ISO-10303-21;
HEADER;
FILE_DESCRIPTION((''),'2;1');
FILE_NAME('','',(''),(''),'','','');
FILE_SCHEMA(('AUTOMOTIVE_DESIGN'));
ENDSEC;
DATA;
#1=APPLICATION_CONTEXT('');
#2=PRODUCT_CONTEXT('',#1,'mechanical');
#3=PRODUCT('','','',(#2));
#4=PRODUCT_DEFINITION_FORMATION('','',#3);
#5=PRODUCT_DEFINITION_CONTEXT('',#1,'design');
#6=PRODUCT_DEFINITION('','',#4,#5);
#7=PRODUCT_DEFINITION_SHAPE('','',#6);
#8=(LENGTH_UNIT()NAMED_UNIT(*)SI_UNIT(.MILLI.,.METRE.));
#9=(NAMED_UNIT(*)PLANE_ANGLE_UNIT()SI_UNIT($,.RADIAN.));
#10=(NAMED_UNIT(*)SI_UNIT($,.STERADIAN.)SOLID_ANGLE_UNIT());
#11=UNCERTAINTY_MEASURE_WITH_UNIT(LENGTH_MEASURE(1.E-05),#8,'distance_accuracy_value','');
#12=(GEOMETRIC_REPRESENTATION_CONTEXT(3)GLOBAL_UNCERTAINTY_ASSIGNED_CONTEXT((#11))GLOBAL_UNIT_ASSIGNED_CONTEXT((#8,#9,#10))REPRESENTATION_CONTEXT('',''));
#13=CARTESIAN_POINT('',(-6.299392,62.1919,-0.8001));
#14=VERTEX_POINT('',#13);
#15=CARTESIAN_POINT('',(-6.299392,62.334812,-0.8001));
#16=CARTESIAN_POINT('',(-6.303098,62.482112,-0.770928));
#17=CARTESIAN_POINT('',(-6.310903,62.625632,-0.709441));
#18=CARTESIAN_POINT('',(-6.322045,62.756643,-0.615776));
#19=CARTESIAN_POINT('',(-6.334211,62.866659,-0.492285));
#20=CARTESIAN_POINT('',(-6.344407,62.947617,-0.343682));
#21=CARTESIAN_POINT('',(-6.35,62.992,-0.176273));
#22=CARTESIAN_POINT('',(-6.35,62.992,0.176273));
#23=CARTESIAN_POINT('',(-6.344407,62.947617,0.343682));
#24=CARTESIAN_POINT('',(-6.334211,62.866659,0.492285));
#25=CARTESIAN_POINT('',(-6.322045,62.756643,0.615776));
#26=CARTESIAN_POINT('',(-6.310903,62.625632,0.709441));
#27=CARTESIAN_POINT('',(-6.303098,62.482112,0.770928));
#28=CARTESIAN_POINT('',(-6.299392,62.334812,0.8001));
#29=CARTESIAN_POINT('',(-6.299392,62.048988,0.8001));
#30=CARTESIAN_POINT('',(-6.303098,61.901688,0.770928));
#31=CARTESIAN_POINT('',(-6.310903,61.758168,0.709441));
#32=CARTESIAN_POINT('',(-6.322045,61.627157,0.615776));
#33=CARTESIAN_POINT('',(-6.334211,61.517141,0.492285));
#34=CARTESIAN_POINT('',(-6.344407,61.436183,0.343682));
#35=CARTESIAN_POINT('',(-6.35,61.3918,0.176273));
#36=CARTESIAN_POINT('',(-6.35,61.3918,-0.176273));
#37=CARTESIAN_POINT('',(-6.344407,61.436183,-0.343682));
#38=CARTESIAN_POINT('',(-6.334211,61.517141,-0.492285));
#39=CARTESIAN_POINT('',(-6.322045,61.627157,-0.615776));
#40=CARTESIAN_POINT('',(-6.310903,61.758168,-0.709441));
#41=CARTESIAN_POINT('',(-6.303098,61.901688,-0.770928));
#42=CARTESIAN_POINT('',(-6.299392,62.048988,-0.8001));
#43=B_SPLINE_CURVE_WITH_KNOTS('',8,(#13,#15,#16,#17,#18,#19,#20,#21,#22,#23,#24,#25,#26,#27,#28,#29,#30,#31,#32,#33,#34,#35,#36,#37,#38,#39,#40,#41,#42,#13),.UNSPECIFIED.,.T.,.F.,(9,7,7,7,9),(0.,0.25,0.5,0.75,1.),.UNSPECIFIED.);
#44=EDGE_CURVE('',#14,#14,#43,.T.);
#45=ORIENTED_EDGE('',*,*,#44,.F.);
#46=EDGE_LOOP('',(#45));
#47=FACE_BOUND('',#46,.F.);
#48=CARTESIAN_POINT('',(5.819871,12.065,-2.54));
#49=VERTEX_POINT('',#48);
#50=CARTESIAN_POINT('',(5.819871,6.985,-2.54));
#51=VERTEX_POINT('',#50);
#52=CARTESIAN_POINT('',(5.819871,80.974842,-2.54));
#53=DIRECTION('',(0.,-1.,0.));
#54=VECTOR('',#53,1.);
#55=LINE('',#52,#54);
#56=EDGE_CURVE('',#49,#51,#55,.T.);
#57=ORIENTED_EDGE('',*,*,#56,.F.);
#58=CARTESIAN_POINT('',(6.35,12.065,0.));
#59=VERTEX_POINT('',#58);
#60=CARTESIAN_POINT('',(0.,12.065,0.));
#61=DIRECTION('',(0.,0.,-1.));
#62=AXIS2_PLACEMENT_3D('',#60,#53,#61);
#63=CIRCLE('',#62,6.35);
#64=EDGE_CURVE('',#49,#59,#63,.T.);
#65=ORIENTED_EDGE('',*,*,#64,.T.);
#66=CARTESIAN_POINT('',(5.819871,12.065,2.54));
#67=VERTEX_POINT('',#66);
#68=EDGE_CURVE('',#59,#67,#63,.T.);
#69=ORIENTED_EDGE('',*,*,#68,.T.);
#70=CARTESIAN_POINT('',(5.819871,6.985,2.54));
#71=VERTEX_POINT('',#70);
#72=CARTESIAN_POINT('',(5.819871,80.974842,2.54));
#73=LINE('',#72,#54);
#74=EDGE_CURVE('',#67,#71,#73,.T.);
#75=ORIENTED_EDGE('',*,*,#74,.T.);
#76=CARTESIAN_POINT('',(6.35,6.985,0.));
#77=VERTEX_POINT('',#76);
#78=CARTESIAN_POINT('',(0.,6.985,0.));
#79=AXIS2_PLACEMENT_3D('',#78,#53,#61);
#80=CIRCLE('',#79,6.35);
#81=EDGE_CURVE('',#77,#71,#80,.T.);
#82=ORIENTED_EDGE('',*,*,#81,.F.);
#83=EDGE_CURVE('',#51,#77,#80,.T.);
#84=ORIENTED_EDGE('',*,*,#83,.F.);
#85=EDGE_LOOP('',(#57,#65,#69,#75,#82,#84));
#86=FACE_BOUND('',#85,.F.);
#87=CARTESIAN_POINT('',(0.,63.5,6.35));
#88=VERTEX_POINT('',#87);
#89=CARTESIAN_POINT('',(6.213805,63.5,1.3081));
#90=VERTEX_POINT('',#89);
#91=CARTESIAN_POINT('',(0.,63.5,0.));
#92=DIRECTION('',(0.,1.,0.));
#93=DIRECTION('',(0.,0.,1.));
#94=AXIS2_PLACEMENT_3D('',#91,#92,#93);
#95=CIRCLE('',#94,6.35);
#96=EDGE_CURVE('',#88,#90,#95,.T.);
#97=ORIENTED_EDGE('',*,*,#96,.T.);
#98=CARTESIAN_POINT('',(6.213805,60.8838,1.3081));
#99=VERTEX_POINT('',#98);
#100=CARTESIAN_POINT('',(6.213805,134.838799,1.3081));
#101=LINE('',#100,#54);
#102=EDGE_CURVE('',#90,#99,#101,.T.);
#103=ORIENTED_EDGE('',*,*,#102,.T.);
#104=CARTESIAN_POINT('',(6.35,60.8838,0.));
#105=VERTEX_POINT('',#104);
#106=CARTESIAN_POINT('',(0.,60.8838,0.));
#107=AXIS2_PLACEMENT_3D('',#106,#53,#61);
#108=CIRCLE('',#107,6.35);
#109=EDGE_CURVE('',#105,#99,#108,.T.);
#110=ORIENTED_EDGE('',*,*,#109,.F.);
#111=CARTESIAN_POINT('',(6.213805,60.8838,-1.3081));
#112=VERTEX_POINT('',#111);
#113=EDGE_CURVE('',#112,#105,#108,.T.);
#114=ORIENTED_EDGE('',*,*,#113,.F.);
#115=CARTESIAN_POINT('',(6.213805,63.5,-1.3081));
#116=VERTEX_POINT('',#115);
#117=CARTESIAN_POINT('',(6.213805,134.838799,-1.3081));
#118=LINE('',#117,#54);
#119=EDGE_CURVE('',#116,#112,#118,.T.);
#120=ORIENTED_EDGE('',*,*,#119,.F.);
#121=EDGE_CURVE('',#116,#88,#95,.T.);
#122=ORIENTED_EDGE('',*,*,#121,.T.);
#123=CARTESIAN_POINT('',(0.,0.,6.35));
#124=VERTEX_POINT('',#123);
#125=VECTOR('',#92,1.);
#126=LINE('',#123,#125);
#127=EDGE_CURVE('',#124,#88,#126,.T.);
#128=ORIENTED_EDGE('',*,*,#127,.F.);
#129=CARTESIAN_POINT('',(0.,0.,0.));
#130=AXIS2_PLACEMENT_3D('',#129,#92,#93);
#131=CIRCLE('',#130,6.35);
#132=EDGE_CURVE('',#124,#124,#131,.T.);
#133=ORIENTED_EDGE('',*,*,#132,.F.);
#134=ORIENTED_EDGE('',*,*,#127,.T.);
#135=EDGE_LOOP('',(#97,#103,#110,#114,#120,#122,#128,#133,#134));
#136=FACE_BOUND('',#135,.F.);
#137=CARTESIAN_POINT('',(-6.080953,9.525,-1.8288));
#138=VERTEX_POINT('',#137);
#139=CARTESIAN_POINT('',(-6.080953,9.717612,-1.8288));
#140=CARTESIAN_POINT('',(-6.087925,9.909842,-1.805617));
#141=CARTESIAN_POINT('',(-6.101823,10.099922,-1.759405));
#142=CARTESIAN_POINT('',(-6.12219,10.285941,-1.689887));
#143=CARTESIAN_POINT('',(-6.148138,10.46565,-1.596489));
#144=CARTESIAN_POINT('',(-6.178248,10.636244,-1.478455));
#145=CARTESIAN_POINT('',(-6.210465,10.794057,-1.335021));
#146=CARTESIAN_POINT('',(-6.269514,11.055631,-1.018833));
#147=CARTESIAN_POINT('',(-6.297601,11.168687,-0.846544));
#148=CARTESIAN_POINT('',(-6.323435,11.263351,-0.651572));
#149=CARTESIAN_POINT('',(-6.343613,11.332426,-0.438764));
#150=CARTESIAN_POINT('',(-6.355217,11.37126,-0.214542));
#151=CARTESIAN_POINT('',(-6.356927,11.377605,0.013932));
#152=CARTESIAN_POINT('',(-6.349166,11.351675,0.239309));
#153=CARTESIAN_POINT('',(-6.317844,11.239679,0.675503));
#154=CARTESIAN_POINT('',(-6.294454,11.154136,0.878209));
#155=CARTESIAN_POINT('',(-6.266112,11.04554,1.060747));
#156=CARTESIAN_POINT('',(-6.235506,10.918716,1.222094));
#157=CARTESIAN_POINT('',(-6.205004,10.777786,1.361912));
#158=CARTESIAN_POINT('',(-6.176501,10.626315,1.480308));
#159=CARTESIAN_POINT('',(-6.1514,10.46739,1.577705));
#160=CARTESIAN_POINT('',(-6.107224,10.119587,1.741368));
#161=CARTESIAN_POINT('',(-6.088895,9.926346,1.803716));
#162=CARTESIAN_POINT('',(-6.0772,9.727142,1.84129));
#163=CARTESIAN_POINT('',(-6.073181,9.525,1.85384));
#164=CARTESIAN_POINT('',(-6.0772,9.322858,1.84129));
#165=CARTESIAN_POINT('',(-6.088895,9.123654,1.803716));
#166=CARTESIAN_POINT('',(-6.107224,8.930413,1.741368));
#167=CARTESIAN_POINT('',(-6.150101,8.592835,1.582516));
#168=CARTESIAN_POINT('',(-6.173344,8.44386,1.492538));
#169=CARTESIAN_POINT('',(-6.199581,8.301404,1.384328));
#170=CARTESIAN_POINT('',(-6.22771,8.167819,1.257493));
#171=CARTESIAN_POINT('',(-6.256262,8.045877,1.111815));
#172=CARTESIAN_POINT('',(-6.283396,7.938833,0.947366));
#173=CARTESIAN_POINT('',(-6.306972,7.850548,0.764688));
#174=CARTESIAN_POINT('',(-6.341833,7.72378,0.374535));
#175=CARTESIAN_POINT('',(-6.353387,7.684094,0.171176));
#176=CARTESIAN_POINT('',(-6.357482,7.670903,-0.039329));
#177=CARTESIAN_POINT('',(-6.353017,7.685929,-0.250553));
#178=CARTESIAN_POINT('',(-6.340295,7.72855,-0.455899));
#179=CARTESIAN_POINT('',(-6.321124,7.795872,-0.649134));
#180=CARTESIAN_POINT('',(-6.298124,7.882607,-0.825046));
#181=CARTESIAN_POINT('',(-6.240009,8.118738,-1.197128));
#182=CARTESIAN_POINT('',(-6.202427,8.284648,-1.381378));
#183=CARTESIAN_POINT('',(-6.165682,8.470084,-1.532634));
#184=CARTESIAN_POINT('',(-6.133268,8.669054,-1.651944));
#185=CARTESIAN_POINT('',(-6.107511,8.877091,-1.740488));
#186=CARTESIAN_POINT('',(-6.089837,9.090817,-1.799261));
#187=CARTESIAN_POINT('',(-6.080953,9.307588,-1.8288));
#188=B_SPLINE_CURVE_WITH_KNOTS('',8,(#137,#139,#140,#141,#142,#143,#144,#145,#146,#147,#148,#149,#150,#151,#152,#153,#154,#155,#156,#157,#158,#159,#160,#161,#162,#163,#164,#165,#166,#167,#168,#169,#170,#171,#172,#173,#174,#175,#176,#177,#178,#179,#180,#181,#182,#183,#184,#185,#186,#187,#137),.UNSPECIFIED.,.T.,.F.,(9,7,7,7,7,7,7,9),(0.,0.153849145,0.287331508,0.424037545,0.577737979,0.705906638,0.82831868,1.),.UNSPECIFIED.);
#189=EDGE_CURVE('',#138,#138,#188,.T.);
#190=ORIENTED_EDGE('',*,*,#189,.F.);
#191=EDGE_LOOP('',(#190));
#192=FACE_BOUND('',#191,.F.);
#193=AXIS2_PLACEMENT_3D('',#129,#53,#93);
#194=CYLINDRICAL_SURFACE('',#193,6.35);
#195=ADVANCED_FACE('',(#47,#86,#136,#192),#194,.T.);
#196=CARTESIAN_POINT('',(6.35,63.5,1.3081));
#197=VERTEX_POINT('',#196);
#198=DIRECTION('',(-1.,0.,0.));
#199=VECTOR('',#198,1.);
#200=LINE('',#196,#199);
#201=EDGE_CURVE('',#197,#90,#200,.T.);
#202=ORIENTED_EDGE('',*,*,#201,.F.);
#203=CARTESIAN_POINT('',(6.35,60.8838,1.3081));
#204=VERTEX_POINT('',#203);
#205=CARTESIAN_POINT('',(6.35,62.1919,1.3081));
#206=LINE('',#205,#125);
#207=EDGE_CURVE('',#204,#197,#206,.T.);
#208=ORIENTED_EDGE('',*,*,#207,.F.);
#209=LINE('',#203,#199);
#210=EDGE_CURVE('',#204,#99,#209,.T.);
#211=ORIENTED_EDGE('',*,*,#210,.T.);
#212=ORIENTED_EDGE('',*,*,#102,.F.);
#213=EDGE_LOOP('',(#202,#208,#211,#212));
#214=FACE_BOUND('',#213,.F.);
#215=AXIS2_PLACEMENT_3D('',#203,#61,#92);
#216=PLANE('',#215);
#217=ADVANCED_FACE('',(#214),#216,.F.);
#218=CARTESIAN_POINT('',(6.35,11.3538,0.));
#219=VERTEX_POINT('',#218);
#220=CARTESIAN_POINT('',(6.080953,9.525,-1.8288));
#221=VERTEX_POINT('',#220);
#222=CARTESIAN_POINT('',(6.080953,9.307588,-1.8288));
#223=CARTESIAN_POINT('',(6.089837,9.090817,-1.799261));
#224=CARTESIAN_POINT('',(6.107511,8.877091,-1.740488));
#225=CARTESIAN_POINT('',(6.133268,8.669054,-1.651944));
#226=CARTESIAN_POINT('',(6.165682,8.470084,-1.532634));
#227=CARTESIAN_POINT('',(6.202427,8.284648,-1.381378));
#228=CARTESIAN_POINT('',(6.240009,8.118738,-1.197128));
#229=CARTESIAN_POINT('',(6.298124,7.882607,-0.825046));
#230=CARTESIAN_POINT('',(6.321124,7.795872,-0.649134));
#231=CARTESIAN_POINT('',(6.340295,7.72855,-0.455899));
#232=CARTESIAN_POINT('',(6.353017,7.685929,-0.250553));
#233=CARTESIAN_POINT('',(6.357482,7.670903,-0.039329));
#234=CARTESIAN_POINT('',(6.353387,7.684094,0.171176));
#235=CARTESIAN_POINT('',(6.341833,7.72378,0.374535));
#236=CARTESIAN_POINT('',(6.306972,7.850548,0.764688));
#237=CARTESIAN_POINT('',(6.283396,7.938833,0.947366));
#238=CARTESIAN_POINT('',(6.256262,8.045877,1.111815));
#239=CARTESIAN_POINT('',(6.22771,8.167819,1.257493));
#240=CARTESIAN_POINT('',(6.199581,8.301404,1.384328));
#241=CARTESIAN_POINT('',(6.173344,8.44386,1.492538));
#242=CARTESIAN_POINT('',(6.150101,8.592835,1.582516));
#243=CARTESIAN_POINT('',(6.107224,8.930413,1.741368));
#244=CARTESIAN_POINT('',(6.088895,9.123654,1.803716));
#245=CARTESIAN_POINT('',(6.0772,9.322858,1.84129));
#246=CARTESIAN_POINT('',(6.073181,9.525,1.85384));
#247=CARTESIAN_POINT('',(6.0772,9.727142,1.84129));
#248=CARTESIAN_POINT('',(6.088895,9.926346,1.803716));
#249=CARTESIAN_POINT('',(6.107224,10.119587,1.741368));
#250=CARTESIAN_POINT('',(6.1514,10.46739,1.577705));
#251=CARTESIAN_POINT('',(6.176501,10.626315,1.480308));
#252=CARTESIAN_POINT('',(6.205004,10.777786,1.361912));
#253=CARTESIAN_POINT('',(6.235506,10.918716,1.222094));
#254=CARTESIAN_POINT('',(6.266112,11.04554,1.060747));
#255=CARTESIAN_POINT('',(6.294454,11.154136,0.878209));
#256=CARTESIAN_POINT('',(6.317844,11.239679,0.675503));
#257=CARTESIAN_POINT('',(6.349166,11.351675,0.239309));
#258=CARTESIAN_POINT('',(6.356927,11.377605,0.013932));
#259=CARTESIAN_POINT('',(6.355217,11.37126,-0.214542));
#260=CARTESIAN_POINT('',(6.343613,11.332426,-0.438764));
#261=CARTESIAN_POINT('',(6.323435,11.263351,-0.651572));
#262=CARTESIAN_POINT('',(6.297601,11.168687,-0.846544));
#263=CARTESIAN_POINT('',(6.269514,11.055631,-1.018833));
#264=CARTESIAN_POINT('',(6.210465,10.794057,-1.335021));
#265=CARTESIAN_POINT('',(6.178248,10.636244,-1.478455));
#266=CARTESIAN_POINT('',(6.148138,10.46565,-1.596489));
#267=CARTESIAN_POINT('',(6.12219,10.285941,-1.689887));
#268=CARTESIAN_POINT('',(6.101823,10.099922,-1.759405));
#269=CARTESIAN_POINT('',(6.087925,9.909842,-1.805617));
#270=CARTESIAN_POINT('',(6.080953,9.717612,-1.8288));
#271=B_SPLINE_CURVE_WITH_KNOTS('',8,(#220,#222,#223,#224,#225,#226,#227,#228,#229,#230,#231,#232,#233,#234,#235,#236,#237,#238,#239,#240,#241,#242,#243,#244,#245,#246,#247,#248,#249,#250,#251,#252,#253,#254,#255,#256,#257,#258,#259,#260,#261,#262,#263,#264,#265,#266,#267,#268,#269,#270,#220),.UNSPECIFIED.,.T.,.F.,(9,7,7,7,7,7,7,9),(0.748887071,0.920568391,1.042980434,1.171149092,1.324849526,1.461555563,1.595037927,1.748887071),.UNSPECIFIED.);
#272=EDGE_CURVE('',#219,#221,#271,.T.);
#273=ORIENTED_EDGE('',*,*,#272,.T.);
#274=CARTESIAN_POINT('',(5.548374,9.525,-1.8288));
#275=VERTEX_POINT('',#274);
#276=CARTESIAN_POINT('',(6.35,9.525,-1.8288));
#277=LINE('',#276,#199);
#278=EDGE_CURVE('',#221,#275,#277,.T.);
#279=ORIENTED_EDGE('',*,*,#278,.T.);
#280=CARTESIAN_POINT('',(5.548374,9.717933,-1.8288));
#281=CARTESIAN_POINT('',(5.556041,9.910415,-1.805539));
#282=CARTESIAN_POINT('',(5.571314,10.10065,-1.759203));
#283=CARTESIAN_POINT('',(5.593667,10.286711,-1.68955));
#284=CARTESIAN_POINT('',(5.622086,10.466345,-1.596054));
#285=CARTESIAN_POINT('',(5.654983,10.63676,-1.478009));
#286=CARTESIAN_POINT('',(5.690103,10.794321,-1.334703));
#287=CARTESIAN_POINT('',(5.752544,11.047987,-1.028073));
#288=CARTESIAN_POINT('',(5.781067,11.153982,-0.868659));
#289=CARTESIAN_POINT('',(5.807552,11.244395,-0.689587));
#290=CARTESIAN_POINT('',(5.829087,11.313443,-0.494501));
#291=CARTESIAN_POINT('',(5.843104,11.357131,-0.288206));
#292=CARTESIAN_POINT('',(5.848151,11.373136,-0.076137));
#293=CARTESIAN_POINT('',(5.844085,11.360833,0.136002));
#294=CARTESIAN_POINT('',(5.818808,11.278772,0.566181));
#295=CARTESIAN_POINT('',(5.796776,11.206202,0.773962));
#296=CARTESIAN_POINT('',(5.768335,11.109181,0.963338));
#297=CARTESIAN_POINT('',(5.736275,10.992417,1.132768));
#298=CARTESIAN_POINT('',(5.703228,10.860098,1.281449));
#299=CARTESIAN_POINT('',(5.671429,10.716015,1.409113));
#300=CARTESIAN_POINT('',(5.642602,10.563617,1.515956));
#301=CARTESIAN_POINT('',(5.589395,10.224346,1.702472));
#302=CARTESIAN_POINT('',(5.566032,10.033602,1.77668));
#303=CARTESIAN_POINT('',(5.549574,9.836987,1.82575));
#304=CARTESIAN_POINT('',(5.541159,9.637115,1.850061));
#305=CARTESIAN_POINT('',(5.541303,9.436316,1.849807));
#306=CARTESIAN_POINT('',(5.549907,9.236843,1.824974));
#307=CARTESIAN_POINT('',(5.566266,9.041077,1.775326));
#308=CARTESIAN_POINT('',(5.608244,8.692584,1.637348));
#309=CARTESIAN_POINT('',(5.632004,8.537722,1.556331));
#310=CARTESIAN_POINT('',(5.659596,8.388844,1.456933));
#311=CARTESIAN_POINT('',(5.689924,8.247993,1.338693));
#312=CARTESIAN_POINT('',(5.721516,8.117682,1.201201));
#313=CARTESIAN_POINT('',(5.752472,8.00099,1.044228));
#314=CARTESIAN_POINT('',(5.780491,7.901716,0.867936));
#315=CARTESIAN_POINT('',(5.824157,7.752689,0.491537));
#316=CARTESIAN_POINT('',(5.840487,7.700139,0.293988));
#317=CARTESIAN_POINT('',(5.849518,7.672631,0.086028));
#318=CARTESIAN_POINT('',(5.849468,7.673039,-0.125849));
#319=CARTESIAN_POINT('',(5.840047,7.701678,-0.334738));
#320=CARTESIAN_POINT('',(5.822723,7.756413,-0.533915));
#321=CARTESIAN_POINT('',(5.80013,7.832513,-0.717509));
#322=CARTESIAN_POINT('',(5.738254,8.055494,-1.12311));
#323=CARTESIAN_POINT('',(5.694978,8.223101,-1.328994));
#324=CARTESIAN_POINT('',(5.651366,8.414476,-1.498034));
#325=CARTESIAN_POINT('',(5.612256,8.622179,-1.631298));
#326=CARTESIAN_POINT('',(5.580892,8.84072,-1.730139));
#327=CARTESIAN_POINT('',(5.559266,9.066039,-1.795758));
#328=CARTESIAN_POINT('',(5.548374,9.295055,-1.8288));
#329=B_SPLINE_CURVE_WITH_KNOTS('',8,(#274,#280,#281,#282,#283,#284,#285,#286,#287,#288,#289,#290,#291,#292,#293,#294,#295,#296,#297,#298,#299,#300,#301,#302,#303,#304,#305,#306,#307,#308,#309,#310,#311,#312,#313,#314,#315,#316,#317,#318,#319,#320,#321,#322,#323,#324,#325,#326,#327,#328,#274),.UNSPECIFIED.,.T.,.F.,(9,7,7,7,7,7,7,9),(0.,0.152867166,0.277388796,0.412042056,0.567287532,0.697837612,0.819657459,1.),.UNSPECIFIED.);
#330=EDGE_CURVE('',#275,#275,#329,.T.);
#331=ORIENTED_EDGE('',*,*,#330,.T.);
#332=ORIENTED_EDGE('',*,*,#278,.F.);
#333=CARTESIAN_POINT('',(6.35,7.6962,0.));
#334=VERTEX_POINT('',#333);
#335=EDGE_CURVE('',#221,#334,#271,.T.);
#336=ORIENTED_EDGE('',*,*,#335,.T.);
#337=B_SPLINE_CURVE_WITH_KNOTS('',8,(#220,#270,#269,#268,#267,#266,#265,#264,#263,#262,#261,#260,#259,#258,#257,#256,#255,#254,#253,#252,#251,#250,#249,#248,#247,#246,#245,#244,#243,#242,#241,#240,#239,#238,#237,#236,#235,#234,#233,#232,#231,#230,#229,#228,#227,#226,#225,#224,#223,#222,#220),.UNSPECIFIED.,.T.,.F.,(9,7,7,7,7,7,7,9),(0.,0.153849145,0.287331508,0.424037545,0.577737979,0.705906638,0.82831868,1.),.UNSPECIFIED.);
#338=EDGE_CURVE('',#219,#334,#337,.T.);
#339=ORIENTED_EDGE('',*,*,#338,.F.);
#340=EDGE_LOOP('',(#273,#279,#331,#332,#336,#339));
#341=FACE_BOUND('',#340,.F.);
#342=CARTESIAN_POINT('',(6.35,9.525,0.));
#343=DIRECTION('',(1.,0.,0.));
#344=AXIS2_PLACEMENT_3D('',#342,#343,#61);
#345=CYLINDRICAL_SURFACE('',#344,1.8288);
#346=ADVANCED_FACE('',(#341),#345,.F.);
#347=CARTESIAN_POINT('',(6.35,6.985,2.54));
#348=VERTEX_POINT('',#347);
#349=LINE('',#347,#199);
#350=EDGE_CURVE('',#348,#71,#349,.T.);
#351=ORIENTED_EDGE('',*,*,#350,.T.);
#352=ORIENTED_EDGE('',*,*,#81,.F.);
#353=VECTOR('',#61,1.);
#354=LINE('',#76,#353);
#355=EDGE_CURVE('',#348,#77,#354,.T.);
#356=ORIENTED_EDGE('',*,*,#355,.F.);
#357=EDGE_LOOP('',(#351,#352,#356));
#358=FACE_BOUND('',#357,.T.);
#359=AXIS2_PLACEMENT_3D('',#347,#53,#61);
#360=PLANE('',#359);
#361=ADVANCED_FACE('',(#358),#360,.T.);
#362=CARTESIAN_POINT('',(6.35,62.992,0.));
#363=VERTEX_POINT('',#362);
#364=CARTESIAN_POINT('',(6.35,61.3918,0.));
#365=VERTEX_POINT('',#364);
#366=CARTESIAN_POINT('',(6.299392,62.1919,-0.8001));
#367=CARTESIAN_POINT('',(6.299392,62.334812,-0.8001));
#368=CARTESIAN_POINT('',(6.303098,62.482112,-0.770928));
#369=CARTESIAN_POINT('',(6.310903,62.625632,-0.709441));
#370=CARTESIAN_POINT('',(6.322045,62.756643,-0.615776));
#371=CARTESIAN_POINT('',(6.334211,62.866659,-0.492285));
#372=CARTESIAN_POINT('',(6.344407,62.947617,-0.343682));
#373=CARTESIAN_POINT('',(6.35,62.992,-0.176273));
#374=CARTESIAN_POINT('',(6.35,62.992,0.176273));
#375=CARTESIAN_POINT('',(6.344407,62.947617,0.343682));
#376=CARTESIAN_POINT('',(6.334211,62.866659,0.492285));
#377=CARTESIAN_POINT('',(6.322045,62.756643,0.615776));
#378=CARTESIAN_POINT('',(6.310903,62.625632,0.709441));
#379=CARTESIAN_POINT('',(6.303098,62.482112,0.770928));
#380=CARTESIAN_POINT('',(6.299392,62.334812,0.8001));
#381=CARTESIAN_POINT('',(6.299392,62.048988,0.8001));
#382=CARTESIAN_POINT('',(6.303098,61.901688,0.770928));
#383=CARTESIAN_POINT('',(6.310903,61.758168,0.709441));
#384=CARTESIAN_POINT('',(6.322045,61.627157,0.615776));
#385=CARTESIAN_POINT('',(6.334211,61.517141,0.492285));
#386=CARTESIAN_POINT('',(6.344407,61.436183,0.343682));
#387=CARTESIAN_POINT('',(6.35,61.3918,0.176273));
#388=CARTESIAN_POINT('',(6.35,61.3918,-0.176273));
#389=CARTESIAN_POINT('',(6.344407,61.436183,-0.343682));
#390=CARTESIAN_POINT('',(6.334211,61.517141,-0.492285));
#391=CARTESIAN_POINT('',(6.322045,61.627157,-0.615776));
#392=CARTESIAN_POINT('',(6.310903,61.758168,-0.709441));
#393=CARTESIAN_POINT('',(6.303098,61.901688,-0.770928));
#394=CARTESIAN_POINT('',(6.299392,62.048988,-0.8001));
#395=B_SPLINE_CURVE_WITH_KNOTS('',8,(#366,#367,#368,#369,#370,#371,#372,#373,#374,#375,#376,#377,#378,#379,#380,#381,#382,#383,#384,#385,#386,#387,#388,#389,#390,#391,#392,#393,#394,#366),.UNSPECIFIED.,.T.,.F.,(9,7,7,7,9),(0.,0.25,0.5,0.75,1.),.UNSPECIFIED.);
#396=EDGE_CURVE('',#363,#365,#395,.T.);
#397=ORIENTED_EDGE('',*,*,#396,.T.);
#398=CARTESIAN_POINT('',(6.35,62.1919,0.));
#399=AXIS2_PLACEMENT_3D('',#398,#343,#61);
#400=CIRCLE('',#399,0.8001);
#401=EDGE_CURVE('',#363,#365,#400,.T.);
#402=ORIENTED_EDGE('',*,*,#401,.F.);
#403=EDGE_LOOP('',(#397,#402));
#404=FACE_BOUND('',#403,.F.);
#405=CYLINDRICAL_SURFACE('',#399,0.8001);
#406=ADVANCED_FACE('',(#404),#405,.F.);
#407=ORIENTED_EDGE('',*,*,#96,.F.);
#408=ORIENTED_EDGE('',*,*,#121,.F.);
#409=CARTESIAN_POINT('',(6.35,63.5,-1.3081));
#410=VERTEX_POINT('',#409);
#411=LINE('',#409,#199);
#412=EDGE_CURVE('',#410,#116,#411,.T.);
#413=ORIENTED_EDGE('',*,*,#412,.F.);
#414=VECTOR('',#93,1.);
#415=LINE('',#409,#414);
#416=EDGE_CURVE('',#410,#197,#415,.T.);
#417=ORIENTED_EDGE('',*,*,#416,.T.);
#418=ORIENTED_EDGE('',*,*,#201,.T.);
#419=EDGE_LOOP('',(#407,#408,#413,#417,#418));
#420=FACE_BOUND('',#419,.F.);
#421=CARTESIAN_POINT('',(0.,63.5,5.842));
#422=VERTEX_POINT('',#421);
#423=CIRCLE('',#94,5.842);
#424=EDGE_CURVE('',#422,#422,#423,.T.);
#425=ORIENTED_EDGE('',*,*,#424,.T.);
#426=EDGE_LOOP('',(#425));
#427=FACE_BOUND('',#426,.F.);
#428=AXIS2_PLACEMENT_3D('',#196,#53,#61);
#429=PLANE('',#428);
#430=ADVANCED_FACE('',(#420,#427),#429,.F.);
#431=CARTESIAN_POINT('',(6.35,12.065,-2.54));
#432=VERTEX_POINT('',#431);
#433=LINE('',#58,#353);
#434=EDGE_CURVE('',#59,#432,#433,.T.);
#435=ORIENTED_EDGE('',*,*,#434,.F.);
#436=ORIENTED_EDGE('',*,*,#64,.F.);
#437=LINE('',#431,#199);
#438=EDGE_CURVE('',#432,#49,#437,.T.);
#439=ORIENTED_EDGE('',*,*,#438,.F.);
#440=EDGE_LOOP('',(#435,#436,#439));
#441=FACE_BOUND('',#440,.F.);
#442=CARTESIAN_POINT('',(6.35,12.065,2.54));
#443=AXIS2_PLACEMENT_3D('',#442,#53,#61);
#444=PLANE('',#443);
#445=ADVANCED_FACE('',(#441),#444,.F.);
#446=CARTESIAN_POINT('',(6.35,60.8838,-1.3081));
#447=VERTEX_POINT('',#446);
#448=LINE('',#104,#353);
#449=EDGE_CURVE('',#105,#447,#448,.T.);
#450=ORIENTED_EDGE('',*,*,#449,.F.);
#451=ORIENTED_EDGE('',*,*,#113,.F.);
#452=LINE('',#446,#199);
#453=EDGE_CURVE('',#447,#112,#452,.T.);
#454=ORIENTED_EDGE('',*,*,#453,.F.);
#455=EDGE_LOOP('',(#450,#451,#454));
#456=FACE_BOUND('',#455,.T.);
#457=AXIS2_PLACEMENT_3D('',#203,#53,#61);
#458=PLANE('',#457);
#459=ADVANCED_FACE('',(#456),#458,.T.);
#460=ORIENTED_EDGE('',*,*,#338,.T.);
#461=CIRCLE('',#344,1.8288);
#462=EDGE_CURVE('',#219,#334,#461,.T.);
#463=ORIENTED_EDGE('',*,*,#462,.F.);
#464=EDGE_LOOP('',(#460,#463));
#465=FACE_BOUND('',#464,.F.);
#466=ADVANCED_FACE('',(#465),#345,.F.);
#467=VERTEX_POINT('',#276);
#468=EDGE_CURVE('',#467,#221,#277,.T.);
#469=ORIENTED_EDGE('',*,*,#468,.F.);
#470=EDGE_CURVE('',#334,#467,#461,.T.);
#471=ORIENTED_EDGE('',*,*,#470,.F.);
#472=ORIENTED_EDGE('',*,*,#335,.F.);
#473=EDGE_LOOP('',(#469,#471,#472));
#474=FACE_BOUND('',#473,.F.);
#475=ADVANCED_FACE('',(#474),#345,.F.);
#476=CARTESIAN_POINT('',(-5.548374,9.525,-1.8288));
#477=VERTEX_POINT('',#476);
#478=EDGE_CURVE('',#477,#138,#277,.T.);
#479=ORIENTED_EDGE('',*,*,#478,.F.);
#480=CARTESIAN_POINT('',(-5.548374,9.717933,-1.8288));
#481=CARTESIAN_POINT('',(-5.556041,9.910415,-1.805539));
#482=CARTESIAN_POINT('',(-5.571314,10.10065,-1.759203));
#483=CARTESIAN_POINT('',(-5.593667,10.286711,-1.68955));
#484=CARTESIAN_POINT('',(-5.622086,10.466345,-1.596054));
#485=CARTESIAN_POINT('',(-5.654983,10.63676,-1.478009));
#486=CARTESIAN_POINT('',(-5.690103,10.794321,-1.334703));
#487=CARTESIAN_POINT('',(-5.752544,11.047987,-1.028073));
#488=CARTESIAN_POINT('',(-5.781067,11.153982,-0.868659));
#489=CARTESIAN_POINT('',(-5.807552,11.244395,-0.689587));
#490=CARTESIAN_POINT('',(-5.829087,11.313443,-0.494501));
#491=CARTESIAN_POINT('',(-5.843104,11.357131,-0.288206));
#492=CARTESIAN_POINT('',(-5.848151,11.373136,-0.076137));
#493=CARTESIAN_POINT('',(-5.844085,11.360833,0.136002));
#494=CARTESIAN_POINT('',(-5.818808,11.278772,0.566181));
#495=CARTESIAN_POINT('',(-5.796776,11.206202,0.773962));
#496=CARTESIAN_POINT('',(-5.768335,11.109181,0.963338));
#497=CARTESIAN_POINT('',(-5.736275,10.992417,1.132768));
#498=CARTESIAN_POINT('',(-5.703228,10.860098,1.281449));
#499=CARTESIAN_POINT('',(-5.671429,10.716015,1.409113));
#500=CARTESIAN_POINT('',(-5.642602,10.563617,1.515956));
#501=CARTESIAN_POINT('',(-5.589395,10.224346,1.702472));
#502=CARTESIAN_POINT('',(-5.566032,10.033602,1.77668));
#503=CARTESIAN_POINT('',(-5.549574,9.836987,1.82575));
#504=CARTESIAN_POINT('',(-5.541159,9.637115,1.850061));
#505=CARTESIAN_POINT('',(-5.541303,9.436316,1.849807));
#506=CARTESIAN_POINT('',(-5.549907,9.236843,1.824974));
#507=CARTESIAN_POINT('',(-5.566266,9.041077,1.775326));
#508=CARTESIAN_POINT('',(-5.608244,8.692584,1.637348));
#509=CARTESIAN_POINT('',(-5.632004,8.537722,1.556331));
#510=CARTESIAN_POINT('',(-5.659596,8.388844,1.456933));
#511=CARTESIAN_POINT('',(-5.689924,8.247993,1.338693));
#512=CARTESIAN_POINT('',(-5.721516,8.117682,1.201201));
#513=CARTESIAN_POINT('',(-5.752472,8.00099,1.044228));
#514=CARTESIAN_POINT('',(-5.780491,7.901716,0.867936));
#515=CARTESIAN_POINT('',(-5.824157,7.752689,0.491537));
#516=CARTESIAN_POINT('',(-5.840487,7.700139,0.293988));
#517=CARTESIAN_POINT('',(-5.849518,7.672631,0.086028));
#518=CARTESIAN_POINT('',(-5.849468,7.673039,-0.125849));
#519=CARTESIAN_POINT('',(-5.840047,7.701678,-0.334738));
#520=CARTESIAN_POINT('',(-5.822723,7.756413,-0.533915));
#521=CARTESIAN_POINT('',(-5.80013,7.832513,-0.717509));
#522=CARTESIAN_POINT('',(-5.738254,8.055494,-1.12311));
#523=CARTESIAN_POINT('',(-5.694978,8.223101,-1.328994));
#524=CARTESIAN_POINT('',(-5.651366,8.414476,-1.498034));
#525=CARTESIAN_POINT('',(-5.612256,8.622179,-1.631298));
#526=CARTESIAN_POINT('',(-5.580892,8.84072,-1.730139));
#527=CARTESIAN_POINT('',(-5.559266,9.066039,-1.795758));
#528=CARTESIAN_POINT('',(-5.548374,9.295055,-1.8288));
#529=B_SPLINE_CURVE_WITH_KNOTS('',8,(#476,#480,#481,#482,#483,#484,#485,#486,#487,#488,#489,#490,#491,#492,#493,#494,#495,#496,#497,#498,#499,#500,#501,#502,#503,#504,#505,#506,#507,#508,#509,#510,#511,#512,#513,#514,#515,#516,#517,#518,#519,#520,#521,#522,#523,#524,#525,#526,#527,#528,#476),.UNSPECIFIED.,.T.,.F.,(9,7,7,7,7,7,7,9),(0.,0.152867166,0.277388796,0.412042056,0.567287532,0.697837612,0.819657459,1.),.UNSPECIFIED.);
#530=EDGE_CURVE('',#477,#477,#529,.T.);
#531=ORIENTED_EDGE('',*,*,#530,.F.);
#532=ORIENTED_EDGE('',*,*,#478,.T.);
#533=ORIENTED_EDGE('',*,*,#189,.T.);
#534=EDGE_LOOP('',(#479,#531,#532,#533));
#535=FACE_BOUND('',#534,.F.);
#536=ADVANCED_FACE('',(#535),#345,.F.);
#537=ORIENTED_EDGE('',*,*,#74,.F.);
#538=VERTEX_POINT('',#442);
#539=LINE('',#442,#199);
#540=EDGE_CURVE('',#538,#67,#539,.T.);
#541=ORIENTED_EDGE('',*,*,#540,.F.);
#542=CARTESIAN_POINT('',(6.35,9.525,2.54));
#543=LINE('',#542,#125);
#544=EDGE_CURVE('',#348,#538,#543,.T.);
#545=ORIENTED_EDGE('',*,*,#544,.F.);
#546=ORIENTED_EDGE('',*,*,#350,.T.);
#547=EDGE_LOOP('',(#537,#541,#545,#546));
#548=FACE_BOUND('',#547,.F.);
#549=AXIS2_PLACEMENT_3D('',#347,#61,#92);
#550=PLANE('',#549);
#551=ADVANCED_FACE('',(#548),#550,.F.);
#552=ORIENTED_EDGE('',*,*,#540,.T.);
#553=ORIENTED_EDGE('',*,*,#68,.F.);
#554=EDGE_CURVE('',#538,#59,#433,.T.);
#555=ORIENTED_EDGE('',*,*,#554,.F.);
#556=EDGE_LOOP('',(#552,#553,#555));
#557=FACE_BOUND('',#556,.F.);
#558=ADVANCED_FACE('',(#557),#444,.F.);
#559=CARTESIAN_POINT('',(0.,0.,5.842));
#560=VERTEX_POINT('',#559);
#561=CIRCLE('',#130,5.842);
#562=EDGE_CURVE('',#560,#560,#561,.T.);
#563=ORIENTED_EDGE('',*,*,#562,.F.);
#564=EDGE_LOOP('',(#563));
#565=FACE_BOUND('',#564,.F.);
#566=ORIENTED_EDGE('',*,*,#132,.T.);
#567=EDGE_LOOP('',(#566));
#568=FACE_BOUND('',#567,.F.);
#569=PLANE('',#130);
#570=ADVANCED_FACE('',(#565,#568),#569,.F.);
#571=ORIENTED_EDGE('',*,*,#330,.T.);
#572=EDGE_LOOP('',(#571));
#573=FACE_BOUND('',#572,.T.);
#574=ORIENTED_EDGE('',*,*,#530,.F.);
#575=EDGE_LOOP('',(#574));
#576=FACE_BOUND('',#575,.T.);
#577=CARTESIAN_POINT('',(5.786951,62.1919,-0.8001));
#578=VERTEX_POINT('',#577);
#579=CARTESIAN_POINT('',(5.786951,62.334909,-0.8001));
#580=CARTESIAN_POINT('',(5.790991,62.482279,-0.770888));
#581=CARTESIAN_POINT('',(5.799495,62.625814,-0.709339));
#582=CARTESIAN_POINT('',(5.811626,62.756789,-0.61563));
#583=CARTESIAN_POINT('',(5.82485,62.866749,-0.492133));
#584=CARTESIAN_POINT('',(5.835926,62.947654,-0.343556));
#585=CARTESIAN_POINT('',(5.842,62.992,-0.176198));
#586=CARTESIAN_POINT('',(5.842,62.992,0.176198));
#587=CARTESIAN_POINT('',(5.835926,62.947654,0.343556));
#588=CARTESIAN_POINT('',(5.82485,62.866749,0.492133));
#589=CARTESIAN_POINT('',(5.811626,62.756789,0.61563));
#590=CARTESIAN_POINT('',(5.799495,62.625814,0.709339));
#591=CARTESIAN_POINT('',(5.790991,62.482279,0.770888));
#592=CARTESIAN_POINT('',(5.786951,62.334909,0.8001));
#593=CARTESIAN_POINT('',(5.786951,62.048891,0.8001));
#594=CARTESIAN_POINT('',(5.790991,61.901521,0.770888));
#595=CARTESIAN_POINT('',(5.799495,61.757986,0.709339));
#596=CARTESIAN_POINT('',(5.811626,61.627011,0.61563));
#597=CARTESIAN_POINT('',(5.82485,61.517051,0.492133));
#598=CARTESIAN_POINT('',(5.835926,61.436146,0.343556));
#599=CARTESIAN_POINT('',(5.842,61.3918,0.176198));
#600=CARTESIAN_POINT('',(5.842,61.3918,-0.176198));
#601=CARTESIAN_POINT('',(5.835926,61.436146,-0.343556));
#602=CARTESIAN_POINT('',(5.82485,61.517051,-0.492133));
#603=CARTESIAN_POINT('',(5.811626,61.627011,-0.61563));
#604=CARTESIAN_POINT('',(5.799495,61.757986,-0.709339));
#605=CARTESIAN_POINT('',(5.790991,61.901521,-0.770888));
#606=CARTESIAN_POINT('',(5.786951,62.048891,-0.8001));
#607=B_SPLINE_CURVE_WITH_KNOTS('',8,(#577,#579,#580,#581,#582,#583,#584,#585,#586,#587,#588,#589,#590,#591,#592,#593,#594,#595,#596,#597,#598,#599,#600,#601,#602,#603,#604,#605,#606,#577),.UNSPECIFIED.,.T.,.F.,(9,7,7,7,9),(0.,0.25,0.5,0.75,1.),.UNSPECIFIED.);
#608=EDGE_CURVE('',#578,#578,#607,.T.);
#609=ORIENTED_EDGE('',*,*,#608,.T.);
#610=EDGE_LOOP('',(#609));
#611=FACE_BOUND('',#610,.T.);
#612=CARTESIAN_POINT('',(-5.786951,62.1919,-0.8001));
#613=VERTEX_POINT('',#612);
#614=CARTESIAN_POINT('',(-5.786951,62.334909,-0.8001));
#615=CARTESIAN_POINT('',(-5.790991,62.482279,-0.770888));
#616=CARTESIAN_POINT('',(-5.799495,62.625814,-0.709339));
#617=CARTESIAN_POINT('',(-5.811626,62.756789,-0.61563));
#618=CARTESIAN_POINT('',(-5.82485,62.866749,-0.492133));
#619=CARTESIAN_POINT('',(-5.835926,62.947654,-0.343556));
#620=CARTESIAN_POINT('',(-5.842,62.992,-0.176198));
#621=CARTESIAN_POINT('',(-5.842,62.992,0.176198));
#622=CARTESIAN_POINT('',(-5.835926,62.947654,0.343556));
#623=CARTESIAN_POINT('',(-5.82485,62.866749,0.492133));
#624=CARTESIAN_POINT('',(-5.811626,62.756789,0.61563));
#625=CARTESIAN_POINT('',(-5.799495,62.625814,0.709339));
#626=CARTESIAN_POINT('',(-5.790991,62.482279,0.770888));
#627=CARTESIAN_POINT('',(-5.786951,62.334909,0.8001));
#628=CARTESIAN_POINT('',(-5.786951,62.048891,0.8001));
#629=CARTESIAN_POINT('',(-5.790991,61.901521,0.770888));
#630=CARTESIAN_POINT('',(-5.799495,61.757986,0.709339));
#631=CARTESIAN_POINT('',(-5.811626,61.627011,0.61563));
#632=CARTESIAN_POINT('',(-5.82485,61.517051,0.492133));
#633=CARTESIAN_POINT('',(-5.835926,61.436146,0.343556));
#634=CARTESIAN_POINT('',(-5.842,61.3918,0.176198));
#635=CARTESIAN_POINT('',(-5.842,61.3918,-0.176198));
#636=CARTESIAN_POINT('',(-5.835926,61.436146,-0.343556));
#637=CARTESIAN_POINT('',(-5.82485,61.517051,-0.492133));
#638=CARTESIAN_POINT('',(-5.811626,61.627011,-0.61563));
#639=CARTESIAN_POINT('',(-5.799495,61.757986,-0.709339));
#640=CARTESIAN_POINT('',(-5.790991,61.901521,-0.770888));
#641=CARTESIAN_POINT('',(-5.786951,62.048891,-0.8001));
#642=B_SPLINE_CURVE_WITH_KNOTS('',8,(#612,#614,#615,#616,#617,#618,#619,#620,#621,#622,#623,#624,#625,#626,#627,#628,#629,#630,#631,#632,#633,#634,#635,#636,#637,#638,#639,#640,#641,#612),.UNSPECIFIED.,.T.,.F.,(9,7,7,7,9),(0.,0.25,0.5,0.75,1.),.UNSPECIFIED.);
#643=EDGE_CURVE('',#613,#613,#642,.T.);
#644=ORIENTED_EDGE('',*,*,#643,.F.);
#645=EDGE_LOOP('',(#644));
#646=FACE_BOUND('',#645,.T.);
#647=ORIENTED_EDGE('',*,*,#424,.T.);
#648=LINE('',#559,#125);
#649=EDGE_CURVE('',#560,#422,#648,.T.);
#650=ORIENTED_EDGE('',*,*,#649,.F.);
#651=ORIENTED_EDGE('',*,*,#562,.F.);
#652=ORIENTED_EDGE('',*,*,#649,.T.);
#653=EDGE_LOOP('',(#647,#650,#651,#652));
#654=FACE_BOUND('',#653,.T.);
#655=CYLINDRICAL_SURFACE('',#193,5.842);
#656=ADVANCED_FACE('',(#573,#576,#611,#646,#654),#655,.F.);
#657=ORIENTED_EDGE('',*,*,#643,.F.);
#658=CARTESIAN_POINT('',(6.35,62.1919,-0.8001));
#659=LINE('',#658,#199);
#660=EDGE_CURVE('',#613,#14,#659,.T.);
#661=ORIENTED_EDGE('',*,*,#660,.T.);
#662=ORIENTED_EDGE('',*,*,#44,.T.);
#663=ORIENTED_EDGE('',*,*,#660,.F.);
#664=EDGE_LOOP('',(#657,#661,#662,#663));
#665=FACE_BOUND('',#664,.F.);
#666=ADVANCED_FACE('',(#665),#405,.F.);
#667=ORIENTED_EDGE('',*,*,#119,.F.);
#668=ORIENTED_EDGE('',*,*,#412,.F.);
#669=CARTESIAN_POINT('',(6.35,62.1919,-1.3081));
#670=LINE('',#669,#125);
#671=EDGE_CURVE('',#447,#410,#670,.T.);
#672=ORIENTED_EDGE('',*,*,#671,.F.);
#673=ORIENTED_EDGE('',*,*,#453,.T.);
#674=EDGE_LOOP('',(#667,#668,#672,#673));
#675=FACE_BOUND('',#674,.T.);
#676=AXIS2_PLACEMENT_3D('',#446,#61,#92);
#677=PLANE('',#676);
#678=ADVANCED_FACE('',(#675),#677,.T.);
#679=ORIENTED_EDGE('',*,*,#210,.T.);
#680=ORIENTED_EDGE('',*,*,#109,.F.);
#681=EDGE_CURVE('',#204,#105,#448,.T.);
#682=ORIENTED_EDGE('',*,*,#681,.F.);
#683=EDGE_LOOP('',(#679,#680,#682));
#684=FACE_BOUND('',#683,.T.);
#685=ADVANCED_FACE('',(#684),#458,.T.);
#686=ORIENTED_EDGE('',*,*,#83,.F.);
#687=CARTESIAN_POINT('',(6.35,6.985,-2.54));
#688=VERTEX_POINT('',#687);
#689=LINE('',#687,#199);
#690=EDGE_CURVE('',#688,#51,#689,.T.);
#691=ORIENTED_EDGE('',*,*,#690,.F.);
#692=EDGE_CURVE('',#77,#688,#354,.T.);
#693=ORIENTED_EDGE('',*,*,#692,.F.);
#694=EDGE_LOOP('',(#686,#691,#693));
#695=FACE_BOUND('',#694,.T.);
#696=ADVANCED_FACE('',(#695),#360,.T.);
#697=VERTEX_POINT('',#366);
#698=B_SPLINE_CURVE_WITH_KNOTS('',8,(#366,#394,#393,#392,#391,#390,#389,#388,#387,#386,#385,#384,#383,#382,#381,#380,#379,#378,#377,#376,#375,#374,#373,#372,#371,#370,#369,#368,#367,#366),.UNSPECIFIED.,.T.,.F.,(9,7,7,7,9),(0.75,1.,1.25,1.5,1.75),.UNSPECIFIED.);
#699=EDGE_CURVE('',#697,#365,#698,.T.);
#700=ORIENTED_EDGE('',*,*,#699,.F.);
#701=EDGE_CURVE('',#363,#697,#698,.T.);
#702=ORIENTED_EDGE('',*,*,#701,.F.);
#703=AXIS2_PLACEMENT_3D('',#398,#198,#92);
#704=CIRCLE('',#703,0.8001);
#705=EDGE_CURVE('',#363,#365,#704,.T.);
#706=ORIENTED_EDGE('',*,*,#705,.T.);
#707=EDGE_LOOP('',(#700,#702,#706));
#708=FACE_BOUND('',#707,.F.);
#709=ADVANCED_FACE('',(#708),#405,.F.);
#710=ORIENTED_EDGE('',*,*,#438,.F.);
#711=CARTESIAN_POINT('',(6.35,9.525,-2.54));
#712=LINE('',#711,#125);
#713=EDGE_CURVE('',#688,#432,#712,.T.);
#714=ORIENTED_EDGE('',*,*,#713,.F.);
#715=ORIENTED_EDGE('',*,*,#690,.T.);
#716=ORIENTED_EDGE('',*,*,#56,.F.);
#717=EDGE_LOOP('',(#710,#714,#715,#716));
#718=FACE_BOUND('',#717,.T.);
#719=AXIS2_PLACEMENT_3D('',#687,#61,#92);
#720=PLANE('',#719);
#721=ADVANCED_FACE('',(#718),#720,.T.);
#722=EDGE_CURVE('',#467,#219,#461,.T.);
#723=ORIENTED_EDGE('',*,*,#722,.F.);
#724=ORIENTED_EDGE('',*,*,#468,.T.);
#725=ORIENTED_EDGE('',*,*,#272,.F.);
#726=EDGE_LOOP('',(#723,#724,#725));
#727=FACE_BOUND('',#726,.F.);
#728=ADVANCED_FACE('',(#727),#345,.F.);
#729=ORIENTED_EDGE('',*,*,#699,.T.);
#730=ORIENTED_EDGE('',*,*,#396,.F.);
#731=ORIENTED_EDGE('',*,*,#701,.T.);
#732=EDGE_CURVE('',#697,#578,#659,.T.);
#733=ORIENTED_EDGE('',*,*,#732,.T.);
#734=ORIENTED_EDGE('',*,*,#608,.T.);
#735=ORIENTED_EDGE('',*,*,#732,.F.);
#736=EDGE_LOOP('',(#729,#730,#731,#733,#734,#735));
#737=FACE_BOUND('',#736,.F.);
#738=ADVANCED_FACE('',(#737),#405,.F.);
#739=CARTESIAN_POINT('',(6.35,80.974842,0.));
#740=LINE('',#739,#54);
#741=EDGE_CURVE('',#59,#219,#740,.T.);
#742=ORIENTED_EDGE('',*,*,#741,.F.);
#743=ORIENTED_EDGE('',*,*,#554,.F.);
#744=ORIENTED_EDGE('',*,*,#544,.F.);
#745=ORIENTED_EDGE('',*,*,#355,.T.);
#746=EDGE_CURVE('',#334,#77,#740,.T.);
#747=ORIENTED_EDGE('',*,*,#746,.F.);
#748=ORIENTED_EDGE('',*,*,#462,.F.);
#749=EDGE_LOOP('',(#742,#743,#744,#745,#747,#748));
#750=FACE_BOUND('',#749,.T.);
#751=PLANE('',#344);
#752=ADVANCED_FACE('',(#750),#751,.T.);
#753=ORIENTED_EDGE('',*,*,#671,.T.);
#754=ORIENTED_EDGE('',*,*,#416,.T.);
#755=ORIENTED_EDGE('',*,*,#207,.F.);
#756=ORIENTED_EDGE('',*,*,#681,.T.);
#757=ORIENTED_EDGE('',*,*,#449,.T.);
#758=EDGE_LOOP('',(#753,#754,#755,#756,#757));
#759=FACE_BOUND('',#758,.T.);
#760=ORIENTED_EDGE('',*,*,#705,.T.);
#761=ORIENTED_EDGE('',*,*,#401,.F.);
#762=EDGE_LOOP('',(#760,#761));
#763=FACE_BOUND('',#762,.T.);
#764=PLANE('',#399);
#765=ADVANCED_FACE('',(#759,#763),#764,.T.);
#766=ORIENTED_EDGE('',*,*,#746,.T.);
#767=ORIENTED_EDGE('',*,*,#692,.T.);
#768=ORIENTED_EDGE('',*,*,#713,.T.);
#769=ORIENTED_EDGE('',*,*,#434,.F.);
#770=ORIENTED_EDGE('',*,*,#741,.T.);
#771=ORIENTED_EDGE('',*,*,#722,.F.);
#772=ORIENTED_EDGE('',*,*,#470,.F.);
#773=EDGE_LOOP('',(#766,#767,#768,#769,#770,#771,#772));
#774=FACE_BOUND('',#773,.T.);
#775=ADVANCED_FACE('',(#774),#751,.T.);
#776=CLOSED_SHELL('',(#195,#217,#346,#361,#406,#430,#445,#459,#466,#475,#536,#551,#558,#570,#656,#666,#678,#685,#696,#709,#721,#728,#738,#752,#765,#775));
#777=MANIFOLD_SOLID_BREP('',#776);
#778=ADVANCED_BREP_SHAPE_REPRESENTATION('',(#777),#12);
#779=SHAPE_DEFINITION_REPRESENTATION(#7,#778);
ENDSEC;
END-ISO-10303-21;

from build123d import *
from build123d.topology import SkipClean

# Parameters (mm, degrees)
SKETCH1_R                = 6.35
SKETCH1_R_2              = 5.842
BOSS_EXTRUDE1_DEPTH      = 63.5
SKETCH2_R                = 0.8001
CUT_EXTRUDE1_DEPTH       = 66.068137364
BOSS_EXTRUDE2_REACH      = 67.068
BOSS_EXTRUDE2_END_RADIUS = 6.35
SKETCH3_W                = 2.6162
SKETCH3_H                = 2.6162
SKETCH3_R                = 0.8001
SKETCH4_R                = 1.8288
CUT_EXTRUDE2_DEPTH       = 66.068137491
BOSS_EXTRUDE3_REACH      = 67.068
BOSS_EXTRUDE3_END_RADIUS = 6.35
SKETCH5_W                = 5.08
SKETCH5_H                = 5.08
SKETCH5_R                = 1.8288


with BuildPart() as part:
    # Sketch1 → Boss-Extrude1 (new body)
    with BuildSketch(Plane(origin=(0, 0, 0), x_dir=(1, 0, 0), z_dir=(0, 1, 0))):
        with Locations(Location((0, 0, 0), (0, 0, 270))):
            Circle(SKETCH1_R)
        with Locations(Location((0, 0, 0), (0, 0, 270))):
            Circle(SKETCH1_R_2, mode=Mode.SUBTRACT)
    extrude(amount=BOSS_EXTRUDE1_DEPTH)

    # Sketch2 → Cut-Extrude1 (cut, through all)
    with BuildSketch(Plane(origin=(6.35, 0, 0), x_dir=(0, 0, -1), z_dir=(1, 0, 0))):
        with Locations((0, 62.1919)):
            Circle(SKETCH2_R)
    extrude(amount=-CUT_EXTRUDE1_DEPTH, mode=Mode.SUBTRACT)

    # Boss-Extrude2: up to this cylinder (the profile starts outside it)
    with SkipClean():  # the faces are left unmerged after this step: merging them gives an invalid solid
        boss_extrude2_end = Plane(origin=(0, 60.920799, 0), z_dir=(0, -1, 0)) * Cylinder(BOSS_EXTRUDE2_END_RADIUS, 147.836, mode=Mode.PRIVATE)
        # Sketch3 → Boss-Extrude2 (add, up to the surface)
        with BuildSketch(Plane(origin=(6.35, 0, 0), x_dir=(0, 0, -1), z_dir=(1, 0, 0)), mode=Mode.PRIVATE) as boss_extrude2_sk1:
            with Locations((0, 62.1919)):
                Rectangle(SKETCH3_W, SKETCH3_H)
            with Locations((0, 62.1919)):
                Circle(SKETCH3_R, mode=Mode.SUBTRACT)
        boss_extrude2_tool1 = extrude(boss_extrude2_sk1.sketch, amount=-BOSS_EXTRUDE2_REACH, mode=Mode.PRIVATE) - boss_extrude2_end
        add(boss_extrude2_tool1.solids().sort_by_distance((6.35, 60.920799, 0))[0])
        add(boss_extrude2_tool1.solids().sort_by_distance((6.35, 60.920799, 0))[1])

    # Sketch4 → Cut-Extrude2 (cut, through all)
    with BuildSketch(Plane(origin=(6.35, 0, 0), x_dir=(0, 0, -1), z_dir=(1, 0, 0))):
        with Locations((0, 9.525)):
            Circle(SKETCH4_R)
    extrude(amount=-CUT_EXTRUDE2_DEPTH, mode=Mode.SUBTRACT)

    # Boss-Extrude3: up to this cylinder (the profile starts outside it)
    with SkipClean():  # the faces are left unmerged after this step: merging them gives an invalid solid
        boss_extrude3_end = Plane(origin=(0, 7.056842, 0), z_dir=(0, -1, 0)) * Cylinder(BOSS_EXTRUDE3_END_RADIUS, 147.836, mode=Mode.PRIVATE)
        # Sketch5 → Boss-Extrude3 (add, up to the surface)
        with BuildSketch(Plane(origin=(6.35, 0, 0), x_dir=(0, 0, -1), z_dir=(1, 0, 0)), mode=Mode.PRIVATE) as boss_extrude3_sk1:
            with Locations((0, 9.525)):
                Rectangle(SKETCH5_W, SKETCH5_H)
            with Locations((0, 9.525)):
                Circle(SKETCH5_R, mode=Mode.SUBTRACT)
        boss_extrude3_tool1 = extrude(boss_extrude3_sk1.sketch, amount=-BOSS_EXTRUDE3_REACH, mode=Mode.PRIVATE) - boss_extrude3_end
        add(boss_extrude3_tool1.solids().sort_by_distance((6.35, 7.056842, 0))[0])
        add(boss_extrude3_tool1.solids().sort_by_distance((6.35, 7.056842, 0))[1])


solid = part.part
